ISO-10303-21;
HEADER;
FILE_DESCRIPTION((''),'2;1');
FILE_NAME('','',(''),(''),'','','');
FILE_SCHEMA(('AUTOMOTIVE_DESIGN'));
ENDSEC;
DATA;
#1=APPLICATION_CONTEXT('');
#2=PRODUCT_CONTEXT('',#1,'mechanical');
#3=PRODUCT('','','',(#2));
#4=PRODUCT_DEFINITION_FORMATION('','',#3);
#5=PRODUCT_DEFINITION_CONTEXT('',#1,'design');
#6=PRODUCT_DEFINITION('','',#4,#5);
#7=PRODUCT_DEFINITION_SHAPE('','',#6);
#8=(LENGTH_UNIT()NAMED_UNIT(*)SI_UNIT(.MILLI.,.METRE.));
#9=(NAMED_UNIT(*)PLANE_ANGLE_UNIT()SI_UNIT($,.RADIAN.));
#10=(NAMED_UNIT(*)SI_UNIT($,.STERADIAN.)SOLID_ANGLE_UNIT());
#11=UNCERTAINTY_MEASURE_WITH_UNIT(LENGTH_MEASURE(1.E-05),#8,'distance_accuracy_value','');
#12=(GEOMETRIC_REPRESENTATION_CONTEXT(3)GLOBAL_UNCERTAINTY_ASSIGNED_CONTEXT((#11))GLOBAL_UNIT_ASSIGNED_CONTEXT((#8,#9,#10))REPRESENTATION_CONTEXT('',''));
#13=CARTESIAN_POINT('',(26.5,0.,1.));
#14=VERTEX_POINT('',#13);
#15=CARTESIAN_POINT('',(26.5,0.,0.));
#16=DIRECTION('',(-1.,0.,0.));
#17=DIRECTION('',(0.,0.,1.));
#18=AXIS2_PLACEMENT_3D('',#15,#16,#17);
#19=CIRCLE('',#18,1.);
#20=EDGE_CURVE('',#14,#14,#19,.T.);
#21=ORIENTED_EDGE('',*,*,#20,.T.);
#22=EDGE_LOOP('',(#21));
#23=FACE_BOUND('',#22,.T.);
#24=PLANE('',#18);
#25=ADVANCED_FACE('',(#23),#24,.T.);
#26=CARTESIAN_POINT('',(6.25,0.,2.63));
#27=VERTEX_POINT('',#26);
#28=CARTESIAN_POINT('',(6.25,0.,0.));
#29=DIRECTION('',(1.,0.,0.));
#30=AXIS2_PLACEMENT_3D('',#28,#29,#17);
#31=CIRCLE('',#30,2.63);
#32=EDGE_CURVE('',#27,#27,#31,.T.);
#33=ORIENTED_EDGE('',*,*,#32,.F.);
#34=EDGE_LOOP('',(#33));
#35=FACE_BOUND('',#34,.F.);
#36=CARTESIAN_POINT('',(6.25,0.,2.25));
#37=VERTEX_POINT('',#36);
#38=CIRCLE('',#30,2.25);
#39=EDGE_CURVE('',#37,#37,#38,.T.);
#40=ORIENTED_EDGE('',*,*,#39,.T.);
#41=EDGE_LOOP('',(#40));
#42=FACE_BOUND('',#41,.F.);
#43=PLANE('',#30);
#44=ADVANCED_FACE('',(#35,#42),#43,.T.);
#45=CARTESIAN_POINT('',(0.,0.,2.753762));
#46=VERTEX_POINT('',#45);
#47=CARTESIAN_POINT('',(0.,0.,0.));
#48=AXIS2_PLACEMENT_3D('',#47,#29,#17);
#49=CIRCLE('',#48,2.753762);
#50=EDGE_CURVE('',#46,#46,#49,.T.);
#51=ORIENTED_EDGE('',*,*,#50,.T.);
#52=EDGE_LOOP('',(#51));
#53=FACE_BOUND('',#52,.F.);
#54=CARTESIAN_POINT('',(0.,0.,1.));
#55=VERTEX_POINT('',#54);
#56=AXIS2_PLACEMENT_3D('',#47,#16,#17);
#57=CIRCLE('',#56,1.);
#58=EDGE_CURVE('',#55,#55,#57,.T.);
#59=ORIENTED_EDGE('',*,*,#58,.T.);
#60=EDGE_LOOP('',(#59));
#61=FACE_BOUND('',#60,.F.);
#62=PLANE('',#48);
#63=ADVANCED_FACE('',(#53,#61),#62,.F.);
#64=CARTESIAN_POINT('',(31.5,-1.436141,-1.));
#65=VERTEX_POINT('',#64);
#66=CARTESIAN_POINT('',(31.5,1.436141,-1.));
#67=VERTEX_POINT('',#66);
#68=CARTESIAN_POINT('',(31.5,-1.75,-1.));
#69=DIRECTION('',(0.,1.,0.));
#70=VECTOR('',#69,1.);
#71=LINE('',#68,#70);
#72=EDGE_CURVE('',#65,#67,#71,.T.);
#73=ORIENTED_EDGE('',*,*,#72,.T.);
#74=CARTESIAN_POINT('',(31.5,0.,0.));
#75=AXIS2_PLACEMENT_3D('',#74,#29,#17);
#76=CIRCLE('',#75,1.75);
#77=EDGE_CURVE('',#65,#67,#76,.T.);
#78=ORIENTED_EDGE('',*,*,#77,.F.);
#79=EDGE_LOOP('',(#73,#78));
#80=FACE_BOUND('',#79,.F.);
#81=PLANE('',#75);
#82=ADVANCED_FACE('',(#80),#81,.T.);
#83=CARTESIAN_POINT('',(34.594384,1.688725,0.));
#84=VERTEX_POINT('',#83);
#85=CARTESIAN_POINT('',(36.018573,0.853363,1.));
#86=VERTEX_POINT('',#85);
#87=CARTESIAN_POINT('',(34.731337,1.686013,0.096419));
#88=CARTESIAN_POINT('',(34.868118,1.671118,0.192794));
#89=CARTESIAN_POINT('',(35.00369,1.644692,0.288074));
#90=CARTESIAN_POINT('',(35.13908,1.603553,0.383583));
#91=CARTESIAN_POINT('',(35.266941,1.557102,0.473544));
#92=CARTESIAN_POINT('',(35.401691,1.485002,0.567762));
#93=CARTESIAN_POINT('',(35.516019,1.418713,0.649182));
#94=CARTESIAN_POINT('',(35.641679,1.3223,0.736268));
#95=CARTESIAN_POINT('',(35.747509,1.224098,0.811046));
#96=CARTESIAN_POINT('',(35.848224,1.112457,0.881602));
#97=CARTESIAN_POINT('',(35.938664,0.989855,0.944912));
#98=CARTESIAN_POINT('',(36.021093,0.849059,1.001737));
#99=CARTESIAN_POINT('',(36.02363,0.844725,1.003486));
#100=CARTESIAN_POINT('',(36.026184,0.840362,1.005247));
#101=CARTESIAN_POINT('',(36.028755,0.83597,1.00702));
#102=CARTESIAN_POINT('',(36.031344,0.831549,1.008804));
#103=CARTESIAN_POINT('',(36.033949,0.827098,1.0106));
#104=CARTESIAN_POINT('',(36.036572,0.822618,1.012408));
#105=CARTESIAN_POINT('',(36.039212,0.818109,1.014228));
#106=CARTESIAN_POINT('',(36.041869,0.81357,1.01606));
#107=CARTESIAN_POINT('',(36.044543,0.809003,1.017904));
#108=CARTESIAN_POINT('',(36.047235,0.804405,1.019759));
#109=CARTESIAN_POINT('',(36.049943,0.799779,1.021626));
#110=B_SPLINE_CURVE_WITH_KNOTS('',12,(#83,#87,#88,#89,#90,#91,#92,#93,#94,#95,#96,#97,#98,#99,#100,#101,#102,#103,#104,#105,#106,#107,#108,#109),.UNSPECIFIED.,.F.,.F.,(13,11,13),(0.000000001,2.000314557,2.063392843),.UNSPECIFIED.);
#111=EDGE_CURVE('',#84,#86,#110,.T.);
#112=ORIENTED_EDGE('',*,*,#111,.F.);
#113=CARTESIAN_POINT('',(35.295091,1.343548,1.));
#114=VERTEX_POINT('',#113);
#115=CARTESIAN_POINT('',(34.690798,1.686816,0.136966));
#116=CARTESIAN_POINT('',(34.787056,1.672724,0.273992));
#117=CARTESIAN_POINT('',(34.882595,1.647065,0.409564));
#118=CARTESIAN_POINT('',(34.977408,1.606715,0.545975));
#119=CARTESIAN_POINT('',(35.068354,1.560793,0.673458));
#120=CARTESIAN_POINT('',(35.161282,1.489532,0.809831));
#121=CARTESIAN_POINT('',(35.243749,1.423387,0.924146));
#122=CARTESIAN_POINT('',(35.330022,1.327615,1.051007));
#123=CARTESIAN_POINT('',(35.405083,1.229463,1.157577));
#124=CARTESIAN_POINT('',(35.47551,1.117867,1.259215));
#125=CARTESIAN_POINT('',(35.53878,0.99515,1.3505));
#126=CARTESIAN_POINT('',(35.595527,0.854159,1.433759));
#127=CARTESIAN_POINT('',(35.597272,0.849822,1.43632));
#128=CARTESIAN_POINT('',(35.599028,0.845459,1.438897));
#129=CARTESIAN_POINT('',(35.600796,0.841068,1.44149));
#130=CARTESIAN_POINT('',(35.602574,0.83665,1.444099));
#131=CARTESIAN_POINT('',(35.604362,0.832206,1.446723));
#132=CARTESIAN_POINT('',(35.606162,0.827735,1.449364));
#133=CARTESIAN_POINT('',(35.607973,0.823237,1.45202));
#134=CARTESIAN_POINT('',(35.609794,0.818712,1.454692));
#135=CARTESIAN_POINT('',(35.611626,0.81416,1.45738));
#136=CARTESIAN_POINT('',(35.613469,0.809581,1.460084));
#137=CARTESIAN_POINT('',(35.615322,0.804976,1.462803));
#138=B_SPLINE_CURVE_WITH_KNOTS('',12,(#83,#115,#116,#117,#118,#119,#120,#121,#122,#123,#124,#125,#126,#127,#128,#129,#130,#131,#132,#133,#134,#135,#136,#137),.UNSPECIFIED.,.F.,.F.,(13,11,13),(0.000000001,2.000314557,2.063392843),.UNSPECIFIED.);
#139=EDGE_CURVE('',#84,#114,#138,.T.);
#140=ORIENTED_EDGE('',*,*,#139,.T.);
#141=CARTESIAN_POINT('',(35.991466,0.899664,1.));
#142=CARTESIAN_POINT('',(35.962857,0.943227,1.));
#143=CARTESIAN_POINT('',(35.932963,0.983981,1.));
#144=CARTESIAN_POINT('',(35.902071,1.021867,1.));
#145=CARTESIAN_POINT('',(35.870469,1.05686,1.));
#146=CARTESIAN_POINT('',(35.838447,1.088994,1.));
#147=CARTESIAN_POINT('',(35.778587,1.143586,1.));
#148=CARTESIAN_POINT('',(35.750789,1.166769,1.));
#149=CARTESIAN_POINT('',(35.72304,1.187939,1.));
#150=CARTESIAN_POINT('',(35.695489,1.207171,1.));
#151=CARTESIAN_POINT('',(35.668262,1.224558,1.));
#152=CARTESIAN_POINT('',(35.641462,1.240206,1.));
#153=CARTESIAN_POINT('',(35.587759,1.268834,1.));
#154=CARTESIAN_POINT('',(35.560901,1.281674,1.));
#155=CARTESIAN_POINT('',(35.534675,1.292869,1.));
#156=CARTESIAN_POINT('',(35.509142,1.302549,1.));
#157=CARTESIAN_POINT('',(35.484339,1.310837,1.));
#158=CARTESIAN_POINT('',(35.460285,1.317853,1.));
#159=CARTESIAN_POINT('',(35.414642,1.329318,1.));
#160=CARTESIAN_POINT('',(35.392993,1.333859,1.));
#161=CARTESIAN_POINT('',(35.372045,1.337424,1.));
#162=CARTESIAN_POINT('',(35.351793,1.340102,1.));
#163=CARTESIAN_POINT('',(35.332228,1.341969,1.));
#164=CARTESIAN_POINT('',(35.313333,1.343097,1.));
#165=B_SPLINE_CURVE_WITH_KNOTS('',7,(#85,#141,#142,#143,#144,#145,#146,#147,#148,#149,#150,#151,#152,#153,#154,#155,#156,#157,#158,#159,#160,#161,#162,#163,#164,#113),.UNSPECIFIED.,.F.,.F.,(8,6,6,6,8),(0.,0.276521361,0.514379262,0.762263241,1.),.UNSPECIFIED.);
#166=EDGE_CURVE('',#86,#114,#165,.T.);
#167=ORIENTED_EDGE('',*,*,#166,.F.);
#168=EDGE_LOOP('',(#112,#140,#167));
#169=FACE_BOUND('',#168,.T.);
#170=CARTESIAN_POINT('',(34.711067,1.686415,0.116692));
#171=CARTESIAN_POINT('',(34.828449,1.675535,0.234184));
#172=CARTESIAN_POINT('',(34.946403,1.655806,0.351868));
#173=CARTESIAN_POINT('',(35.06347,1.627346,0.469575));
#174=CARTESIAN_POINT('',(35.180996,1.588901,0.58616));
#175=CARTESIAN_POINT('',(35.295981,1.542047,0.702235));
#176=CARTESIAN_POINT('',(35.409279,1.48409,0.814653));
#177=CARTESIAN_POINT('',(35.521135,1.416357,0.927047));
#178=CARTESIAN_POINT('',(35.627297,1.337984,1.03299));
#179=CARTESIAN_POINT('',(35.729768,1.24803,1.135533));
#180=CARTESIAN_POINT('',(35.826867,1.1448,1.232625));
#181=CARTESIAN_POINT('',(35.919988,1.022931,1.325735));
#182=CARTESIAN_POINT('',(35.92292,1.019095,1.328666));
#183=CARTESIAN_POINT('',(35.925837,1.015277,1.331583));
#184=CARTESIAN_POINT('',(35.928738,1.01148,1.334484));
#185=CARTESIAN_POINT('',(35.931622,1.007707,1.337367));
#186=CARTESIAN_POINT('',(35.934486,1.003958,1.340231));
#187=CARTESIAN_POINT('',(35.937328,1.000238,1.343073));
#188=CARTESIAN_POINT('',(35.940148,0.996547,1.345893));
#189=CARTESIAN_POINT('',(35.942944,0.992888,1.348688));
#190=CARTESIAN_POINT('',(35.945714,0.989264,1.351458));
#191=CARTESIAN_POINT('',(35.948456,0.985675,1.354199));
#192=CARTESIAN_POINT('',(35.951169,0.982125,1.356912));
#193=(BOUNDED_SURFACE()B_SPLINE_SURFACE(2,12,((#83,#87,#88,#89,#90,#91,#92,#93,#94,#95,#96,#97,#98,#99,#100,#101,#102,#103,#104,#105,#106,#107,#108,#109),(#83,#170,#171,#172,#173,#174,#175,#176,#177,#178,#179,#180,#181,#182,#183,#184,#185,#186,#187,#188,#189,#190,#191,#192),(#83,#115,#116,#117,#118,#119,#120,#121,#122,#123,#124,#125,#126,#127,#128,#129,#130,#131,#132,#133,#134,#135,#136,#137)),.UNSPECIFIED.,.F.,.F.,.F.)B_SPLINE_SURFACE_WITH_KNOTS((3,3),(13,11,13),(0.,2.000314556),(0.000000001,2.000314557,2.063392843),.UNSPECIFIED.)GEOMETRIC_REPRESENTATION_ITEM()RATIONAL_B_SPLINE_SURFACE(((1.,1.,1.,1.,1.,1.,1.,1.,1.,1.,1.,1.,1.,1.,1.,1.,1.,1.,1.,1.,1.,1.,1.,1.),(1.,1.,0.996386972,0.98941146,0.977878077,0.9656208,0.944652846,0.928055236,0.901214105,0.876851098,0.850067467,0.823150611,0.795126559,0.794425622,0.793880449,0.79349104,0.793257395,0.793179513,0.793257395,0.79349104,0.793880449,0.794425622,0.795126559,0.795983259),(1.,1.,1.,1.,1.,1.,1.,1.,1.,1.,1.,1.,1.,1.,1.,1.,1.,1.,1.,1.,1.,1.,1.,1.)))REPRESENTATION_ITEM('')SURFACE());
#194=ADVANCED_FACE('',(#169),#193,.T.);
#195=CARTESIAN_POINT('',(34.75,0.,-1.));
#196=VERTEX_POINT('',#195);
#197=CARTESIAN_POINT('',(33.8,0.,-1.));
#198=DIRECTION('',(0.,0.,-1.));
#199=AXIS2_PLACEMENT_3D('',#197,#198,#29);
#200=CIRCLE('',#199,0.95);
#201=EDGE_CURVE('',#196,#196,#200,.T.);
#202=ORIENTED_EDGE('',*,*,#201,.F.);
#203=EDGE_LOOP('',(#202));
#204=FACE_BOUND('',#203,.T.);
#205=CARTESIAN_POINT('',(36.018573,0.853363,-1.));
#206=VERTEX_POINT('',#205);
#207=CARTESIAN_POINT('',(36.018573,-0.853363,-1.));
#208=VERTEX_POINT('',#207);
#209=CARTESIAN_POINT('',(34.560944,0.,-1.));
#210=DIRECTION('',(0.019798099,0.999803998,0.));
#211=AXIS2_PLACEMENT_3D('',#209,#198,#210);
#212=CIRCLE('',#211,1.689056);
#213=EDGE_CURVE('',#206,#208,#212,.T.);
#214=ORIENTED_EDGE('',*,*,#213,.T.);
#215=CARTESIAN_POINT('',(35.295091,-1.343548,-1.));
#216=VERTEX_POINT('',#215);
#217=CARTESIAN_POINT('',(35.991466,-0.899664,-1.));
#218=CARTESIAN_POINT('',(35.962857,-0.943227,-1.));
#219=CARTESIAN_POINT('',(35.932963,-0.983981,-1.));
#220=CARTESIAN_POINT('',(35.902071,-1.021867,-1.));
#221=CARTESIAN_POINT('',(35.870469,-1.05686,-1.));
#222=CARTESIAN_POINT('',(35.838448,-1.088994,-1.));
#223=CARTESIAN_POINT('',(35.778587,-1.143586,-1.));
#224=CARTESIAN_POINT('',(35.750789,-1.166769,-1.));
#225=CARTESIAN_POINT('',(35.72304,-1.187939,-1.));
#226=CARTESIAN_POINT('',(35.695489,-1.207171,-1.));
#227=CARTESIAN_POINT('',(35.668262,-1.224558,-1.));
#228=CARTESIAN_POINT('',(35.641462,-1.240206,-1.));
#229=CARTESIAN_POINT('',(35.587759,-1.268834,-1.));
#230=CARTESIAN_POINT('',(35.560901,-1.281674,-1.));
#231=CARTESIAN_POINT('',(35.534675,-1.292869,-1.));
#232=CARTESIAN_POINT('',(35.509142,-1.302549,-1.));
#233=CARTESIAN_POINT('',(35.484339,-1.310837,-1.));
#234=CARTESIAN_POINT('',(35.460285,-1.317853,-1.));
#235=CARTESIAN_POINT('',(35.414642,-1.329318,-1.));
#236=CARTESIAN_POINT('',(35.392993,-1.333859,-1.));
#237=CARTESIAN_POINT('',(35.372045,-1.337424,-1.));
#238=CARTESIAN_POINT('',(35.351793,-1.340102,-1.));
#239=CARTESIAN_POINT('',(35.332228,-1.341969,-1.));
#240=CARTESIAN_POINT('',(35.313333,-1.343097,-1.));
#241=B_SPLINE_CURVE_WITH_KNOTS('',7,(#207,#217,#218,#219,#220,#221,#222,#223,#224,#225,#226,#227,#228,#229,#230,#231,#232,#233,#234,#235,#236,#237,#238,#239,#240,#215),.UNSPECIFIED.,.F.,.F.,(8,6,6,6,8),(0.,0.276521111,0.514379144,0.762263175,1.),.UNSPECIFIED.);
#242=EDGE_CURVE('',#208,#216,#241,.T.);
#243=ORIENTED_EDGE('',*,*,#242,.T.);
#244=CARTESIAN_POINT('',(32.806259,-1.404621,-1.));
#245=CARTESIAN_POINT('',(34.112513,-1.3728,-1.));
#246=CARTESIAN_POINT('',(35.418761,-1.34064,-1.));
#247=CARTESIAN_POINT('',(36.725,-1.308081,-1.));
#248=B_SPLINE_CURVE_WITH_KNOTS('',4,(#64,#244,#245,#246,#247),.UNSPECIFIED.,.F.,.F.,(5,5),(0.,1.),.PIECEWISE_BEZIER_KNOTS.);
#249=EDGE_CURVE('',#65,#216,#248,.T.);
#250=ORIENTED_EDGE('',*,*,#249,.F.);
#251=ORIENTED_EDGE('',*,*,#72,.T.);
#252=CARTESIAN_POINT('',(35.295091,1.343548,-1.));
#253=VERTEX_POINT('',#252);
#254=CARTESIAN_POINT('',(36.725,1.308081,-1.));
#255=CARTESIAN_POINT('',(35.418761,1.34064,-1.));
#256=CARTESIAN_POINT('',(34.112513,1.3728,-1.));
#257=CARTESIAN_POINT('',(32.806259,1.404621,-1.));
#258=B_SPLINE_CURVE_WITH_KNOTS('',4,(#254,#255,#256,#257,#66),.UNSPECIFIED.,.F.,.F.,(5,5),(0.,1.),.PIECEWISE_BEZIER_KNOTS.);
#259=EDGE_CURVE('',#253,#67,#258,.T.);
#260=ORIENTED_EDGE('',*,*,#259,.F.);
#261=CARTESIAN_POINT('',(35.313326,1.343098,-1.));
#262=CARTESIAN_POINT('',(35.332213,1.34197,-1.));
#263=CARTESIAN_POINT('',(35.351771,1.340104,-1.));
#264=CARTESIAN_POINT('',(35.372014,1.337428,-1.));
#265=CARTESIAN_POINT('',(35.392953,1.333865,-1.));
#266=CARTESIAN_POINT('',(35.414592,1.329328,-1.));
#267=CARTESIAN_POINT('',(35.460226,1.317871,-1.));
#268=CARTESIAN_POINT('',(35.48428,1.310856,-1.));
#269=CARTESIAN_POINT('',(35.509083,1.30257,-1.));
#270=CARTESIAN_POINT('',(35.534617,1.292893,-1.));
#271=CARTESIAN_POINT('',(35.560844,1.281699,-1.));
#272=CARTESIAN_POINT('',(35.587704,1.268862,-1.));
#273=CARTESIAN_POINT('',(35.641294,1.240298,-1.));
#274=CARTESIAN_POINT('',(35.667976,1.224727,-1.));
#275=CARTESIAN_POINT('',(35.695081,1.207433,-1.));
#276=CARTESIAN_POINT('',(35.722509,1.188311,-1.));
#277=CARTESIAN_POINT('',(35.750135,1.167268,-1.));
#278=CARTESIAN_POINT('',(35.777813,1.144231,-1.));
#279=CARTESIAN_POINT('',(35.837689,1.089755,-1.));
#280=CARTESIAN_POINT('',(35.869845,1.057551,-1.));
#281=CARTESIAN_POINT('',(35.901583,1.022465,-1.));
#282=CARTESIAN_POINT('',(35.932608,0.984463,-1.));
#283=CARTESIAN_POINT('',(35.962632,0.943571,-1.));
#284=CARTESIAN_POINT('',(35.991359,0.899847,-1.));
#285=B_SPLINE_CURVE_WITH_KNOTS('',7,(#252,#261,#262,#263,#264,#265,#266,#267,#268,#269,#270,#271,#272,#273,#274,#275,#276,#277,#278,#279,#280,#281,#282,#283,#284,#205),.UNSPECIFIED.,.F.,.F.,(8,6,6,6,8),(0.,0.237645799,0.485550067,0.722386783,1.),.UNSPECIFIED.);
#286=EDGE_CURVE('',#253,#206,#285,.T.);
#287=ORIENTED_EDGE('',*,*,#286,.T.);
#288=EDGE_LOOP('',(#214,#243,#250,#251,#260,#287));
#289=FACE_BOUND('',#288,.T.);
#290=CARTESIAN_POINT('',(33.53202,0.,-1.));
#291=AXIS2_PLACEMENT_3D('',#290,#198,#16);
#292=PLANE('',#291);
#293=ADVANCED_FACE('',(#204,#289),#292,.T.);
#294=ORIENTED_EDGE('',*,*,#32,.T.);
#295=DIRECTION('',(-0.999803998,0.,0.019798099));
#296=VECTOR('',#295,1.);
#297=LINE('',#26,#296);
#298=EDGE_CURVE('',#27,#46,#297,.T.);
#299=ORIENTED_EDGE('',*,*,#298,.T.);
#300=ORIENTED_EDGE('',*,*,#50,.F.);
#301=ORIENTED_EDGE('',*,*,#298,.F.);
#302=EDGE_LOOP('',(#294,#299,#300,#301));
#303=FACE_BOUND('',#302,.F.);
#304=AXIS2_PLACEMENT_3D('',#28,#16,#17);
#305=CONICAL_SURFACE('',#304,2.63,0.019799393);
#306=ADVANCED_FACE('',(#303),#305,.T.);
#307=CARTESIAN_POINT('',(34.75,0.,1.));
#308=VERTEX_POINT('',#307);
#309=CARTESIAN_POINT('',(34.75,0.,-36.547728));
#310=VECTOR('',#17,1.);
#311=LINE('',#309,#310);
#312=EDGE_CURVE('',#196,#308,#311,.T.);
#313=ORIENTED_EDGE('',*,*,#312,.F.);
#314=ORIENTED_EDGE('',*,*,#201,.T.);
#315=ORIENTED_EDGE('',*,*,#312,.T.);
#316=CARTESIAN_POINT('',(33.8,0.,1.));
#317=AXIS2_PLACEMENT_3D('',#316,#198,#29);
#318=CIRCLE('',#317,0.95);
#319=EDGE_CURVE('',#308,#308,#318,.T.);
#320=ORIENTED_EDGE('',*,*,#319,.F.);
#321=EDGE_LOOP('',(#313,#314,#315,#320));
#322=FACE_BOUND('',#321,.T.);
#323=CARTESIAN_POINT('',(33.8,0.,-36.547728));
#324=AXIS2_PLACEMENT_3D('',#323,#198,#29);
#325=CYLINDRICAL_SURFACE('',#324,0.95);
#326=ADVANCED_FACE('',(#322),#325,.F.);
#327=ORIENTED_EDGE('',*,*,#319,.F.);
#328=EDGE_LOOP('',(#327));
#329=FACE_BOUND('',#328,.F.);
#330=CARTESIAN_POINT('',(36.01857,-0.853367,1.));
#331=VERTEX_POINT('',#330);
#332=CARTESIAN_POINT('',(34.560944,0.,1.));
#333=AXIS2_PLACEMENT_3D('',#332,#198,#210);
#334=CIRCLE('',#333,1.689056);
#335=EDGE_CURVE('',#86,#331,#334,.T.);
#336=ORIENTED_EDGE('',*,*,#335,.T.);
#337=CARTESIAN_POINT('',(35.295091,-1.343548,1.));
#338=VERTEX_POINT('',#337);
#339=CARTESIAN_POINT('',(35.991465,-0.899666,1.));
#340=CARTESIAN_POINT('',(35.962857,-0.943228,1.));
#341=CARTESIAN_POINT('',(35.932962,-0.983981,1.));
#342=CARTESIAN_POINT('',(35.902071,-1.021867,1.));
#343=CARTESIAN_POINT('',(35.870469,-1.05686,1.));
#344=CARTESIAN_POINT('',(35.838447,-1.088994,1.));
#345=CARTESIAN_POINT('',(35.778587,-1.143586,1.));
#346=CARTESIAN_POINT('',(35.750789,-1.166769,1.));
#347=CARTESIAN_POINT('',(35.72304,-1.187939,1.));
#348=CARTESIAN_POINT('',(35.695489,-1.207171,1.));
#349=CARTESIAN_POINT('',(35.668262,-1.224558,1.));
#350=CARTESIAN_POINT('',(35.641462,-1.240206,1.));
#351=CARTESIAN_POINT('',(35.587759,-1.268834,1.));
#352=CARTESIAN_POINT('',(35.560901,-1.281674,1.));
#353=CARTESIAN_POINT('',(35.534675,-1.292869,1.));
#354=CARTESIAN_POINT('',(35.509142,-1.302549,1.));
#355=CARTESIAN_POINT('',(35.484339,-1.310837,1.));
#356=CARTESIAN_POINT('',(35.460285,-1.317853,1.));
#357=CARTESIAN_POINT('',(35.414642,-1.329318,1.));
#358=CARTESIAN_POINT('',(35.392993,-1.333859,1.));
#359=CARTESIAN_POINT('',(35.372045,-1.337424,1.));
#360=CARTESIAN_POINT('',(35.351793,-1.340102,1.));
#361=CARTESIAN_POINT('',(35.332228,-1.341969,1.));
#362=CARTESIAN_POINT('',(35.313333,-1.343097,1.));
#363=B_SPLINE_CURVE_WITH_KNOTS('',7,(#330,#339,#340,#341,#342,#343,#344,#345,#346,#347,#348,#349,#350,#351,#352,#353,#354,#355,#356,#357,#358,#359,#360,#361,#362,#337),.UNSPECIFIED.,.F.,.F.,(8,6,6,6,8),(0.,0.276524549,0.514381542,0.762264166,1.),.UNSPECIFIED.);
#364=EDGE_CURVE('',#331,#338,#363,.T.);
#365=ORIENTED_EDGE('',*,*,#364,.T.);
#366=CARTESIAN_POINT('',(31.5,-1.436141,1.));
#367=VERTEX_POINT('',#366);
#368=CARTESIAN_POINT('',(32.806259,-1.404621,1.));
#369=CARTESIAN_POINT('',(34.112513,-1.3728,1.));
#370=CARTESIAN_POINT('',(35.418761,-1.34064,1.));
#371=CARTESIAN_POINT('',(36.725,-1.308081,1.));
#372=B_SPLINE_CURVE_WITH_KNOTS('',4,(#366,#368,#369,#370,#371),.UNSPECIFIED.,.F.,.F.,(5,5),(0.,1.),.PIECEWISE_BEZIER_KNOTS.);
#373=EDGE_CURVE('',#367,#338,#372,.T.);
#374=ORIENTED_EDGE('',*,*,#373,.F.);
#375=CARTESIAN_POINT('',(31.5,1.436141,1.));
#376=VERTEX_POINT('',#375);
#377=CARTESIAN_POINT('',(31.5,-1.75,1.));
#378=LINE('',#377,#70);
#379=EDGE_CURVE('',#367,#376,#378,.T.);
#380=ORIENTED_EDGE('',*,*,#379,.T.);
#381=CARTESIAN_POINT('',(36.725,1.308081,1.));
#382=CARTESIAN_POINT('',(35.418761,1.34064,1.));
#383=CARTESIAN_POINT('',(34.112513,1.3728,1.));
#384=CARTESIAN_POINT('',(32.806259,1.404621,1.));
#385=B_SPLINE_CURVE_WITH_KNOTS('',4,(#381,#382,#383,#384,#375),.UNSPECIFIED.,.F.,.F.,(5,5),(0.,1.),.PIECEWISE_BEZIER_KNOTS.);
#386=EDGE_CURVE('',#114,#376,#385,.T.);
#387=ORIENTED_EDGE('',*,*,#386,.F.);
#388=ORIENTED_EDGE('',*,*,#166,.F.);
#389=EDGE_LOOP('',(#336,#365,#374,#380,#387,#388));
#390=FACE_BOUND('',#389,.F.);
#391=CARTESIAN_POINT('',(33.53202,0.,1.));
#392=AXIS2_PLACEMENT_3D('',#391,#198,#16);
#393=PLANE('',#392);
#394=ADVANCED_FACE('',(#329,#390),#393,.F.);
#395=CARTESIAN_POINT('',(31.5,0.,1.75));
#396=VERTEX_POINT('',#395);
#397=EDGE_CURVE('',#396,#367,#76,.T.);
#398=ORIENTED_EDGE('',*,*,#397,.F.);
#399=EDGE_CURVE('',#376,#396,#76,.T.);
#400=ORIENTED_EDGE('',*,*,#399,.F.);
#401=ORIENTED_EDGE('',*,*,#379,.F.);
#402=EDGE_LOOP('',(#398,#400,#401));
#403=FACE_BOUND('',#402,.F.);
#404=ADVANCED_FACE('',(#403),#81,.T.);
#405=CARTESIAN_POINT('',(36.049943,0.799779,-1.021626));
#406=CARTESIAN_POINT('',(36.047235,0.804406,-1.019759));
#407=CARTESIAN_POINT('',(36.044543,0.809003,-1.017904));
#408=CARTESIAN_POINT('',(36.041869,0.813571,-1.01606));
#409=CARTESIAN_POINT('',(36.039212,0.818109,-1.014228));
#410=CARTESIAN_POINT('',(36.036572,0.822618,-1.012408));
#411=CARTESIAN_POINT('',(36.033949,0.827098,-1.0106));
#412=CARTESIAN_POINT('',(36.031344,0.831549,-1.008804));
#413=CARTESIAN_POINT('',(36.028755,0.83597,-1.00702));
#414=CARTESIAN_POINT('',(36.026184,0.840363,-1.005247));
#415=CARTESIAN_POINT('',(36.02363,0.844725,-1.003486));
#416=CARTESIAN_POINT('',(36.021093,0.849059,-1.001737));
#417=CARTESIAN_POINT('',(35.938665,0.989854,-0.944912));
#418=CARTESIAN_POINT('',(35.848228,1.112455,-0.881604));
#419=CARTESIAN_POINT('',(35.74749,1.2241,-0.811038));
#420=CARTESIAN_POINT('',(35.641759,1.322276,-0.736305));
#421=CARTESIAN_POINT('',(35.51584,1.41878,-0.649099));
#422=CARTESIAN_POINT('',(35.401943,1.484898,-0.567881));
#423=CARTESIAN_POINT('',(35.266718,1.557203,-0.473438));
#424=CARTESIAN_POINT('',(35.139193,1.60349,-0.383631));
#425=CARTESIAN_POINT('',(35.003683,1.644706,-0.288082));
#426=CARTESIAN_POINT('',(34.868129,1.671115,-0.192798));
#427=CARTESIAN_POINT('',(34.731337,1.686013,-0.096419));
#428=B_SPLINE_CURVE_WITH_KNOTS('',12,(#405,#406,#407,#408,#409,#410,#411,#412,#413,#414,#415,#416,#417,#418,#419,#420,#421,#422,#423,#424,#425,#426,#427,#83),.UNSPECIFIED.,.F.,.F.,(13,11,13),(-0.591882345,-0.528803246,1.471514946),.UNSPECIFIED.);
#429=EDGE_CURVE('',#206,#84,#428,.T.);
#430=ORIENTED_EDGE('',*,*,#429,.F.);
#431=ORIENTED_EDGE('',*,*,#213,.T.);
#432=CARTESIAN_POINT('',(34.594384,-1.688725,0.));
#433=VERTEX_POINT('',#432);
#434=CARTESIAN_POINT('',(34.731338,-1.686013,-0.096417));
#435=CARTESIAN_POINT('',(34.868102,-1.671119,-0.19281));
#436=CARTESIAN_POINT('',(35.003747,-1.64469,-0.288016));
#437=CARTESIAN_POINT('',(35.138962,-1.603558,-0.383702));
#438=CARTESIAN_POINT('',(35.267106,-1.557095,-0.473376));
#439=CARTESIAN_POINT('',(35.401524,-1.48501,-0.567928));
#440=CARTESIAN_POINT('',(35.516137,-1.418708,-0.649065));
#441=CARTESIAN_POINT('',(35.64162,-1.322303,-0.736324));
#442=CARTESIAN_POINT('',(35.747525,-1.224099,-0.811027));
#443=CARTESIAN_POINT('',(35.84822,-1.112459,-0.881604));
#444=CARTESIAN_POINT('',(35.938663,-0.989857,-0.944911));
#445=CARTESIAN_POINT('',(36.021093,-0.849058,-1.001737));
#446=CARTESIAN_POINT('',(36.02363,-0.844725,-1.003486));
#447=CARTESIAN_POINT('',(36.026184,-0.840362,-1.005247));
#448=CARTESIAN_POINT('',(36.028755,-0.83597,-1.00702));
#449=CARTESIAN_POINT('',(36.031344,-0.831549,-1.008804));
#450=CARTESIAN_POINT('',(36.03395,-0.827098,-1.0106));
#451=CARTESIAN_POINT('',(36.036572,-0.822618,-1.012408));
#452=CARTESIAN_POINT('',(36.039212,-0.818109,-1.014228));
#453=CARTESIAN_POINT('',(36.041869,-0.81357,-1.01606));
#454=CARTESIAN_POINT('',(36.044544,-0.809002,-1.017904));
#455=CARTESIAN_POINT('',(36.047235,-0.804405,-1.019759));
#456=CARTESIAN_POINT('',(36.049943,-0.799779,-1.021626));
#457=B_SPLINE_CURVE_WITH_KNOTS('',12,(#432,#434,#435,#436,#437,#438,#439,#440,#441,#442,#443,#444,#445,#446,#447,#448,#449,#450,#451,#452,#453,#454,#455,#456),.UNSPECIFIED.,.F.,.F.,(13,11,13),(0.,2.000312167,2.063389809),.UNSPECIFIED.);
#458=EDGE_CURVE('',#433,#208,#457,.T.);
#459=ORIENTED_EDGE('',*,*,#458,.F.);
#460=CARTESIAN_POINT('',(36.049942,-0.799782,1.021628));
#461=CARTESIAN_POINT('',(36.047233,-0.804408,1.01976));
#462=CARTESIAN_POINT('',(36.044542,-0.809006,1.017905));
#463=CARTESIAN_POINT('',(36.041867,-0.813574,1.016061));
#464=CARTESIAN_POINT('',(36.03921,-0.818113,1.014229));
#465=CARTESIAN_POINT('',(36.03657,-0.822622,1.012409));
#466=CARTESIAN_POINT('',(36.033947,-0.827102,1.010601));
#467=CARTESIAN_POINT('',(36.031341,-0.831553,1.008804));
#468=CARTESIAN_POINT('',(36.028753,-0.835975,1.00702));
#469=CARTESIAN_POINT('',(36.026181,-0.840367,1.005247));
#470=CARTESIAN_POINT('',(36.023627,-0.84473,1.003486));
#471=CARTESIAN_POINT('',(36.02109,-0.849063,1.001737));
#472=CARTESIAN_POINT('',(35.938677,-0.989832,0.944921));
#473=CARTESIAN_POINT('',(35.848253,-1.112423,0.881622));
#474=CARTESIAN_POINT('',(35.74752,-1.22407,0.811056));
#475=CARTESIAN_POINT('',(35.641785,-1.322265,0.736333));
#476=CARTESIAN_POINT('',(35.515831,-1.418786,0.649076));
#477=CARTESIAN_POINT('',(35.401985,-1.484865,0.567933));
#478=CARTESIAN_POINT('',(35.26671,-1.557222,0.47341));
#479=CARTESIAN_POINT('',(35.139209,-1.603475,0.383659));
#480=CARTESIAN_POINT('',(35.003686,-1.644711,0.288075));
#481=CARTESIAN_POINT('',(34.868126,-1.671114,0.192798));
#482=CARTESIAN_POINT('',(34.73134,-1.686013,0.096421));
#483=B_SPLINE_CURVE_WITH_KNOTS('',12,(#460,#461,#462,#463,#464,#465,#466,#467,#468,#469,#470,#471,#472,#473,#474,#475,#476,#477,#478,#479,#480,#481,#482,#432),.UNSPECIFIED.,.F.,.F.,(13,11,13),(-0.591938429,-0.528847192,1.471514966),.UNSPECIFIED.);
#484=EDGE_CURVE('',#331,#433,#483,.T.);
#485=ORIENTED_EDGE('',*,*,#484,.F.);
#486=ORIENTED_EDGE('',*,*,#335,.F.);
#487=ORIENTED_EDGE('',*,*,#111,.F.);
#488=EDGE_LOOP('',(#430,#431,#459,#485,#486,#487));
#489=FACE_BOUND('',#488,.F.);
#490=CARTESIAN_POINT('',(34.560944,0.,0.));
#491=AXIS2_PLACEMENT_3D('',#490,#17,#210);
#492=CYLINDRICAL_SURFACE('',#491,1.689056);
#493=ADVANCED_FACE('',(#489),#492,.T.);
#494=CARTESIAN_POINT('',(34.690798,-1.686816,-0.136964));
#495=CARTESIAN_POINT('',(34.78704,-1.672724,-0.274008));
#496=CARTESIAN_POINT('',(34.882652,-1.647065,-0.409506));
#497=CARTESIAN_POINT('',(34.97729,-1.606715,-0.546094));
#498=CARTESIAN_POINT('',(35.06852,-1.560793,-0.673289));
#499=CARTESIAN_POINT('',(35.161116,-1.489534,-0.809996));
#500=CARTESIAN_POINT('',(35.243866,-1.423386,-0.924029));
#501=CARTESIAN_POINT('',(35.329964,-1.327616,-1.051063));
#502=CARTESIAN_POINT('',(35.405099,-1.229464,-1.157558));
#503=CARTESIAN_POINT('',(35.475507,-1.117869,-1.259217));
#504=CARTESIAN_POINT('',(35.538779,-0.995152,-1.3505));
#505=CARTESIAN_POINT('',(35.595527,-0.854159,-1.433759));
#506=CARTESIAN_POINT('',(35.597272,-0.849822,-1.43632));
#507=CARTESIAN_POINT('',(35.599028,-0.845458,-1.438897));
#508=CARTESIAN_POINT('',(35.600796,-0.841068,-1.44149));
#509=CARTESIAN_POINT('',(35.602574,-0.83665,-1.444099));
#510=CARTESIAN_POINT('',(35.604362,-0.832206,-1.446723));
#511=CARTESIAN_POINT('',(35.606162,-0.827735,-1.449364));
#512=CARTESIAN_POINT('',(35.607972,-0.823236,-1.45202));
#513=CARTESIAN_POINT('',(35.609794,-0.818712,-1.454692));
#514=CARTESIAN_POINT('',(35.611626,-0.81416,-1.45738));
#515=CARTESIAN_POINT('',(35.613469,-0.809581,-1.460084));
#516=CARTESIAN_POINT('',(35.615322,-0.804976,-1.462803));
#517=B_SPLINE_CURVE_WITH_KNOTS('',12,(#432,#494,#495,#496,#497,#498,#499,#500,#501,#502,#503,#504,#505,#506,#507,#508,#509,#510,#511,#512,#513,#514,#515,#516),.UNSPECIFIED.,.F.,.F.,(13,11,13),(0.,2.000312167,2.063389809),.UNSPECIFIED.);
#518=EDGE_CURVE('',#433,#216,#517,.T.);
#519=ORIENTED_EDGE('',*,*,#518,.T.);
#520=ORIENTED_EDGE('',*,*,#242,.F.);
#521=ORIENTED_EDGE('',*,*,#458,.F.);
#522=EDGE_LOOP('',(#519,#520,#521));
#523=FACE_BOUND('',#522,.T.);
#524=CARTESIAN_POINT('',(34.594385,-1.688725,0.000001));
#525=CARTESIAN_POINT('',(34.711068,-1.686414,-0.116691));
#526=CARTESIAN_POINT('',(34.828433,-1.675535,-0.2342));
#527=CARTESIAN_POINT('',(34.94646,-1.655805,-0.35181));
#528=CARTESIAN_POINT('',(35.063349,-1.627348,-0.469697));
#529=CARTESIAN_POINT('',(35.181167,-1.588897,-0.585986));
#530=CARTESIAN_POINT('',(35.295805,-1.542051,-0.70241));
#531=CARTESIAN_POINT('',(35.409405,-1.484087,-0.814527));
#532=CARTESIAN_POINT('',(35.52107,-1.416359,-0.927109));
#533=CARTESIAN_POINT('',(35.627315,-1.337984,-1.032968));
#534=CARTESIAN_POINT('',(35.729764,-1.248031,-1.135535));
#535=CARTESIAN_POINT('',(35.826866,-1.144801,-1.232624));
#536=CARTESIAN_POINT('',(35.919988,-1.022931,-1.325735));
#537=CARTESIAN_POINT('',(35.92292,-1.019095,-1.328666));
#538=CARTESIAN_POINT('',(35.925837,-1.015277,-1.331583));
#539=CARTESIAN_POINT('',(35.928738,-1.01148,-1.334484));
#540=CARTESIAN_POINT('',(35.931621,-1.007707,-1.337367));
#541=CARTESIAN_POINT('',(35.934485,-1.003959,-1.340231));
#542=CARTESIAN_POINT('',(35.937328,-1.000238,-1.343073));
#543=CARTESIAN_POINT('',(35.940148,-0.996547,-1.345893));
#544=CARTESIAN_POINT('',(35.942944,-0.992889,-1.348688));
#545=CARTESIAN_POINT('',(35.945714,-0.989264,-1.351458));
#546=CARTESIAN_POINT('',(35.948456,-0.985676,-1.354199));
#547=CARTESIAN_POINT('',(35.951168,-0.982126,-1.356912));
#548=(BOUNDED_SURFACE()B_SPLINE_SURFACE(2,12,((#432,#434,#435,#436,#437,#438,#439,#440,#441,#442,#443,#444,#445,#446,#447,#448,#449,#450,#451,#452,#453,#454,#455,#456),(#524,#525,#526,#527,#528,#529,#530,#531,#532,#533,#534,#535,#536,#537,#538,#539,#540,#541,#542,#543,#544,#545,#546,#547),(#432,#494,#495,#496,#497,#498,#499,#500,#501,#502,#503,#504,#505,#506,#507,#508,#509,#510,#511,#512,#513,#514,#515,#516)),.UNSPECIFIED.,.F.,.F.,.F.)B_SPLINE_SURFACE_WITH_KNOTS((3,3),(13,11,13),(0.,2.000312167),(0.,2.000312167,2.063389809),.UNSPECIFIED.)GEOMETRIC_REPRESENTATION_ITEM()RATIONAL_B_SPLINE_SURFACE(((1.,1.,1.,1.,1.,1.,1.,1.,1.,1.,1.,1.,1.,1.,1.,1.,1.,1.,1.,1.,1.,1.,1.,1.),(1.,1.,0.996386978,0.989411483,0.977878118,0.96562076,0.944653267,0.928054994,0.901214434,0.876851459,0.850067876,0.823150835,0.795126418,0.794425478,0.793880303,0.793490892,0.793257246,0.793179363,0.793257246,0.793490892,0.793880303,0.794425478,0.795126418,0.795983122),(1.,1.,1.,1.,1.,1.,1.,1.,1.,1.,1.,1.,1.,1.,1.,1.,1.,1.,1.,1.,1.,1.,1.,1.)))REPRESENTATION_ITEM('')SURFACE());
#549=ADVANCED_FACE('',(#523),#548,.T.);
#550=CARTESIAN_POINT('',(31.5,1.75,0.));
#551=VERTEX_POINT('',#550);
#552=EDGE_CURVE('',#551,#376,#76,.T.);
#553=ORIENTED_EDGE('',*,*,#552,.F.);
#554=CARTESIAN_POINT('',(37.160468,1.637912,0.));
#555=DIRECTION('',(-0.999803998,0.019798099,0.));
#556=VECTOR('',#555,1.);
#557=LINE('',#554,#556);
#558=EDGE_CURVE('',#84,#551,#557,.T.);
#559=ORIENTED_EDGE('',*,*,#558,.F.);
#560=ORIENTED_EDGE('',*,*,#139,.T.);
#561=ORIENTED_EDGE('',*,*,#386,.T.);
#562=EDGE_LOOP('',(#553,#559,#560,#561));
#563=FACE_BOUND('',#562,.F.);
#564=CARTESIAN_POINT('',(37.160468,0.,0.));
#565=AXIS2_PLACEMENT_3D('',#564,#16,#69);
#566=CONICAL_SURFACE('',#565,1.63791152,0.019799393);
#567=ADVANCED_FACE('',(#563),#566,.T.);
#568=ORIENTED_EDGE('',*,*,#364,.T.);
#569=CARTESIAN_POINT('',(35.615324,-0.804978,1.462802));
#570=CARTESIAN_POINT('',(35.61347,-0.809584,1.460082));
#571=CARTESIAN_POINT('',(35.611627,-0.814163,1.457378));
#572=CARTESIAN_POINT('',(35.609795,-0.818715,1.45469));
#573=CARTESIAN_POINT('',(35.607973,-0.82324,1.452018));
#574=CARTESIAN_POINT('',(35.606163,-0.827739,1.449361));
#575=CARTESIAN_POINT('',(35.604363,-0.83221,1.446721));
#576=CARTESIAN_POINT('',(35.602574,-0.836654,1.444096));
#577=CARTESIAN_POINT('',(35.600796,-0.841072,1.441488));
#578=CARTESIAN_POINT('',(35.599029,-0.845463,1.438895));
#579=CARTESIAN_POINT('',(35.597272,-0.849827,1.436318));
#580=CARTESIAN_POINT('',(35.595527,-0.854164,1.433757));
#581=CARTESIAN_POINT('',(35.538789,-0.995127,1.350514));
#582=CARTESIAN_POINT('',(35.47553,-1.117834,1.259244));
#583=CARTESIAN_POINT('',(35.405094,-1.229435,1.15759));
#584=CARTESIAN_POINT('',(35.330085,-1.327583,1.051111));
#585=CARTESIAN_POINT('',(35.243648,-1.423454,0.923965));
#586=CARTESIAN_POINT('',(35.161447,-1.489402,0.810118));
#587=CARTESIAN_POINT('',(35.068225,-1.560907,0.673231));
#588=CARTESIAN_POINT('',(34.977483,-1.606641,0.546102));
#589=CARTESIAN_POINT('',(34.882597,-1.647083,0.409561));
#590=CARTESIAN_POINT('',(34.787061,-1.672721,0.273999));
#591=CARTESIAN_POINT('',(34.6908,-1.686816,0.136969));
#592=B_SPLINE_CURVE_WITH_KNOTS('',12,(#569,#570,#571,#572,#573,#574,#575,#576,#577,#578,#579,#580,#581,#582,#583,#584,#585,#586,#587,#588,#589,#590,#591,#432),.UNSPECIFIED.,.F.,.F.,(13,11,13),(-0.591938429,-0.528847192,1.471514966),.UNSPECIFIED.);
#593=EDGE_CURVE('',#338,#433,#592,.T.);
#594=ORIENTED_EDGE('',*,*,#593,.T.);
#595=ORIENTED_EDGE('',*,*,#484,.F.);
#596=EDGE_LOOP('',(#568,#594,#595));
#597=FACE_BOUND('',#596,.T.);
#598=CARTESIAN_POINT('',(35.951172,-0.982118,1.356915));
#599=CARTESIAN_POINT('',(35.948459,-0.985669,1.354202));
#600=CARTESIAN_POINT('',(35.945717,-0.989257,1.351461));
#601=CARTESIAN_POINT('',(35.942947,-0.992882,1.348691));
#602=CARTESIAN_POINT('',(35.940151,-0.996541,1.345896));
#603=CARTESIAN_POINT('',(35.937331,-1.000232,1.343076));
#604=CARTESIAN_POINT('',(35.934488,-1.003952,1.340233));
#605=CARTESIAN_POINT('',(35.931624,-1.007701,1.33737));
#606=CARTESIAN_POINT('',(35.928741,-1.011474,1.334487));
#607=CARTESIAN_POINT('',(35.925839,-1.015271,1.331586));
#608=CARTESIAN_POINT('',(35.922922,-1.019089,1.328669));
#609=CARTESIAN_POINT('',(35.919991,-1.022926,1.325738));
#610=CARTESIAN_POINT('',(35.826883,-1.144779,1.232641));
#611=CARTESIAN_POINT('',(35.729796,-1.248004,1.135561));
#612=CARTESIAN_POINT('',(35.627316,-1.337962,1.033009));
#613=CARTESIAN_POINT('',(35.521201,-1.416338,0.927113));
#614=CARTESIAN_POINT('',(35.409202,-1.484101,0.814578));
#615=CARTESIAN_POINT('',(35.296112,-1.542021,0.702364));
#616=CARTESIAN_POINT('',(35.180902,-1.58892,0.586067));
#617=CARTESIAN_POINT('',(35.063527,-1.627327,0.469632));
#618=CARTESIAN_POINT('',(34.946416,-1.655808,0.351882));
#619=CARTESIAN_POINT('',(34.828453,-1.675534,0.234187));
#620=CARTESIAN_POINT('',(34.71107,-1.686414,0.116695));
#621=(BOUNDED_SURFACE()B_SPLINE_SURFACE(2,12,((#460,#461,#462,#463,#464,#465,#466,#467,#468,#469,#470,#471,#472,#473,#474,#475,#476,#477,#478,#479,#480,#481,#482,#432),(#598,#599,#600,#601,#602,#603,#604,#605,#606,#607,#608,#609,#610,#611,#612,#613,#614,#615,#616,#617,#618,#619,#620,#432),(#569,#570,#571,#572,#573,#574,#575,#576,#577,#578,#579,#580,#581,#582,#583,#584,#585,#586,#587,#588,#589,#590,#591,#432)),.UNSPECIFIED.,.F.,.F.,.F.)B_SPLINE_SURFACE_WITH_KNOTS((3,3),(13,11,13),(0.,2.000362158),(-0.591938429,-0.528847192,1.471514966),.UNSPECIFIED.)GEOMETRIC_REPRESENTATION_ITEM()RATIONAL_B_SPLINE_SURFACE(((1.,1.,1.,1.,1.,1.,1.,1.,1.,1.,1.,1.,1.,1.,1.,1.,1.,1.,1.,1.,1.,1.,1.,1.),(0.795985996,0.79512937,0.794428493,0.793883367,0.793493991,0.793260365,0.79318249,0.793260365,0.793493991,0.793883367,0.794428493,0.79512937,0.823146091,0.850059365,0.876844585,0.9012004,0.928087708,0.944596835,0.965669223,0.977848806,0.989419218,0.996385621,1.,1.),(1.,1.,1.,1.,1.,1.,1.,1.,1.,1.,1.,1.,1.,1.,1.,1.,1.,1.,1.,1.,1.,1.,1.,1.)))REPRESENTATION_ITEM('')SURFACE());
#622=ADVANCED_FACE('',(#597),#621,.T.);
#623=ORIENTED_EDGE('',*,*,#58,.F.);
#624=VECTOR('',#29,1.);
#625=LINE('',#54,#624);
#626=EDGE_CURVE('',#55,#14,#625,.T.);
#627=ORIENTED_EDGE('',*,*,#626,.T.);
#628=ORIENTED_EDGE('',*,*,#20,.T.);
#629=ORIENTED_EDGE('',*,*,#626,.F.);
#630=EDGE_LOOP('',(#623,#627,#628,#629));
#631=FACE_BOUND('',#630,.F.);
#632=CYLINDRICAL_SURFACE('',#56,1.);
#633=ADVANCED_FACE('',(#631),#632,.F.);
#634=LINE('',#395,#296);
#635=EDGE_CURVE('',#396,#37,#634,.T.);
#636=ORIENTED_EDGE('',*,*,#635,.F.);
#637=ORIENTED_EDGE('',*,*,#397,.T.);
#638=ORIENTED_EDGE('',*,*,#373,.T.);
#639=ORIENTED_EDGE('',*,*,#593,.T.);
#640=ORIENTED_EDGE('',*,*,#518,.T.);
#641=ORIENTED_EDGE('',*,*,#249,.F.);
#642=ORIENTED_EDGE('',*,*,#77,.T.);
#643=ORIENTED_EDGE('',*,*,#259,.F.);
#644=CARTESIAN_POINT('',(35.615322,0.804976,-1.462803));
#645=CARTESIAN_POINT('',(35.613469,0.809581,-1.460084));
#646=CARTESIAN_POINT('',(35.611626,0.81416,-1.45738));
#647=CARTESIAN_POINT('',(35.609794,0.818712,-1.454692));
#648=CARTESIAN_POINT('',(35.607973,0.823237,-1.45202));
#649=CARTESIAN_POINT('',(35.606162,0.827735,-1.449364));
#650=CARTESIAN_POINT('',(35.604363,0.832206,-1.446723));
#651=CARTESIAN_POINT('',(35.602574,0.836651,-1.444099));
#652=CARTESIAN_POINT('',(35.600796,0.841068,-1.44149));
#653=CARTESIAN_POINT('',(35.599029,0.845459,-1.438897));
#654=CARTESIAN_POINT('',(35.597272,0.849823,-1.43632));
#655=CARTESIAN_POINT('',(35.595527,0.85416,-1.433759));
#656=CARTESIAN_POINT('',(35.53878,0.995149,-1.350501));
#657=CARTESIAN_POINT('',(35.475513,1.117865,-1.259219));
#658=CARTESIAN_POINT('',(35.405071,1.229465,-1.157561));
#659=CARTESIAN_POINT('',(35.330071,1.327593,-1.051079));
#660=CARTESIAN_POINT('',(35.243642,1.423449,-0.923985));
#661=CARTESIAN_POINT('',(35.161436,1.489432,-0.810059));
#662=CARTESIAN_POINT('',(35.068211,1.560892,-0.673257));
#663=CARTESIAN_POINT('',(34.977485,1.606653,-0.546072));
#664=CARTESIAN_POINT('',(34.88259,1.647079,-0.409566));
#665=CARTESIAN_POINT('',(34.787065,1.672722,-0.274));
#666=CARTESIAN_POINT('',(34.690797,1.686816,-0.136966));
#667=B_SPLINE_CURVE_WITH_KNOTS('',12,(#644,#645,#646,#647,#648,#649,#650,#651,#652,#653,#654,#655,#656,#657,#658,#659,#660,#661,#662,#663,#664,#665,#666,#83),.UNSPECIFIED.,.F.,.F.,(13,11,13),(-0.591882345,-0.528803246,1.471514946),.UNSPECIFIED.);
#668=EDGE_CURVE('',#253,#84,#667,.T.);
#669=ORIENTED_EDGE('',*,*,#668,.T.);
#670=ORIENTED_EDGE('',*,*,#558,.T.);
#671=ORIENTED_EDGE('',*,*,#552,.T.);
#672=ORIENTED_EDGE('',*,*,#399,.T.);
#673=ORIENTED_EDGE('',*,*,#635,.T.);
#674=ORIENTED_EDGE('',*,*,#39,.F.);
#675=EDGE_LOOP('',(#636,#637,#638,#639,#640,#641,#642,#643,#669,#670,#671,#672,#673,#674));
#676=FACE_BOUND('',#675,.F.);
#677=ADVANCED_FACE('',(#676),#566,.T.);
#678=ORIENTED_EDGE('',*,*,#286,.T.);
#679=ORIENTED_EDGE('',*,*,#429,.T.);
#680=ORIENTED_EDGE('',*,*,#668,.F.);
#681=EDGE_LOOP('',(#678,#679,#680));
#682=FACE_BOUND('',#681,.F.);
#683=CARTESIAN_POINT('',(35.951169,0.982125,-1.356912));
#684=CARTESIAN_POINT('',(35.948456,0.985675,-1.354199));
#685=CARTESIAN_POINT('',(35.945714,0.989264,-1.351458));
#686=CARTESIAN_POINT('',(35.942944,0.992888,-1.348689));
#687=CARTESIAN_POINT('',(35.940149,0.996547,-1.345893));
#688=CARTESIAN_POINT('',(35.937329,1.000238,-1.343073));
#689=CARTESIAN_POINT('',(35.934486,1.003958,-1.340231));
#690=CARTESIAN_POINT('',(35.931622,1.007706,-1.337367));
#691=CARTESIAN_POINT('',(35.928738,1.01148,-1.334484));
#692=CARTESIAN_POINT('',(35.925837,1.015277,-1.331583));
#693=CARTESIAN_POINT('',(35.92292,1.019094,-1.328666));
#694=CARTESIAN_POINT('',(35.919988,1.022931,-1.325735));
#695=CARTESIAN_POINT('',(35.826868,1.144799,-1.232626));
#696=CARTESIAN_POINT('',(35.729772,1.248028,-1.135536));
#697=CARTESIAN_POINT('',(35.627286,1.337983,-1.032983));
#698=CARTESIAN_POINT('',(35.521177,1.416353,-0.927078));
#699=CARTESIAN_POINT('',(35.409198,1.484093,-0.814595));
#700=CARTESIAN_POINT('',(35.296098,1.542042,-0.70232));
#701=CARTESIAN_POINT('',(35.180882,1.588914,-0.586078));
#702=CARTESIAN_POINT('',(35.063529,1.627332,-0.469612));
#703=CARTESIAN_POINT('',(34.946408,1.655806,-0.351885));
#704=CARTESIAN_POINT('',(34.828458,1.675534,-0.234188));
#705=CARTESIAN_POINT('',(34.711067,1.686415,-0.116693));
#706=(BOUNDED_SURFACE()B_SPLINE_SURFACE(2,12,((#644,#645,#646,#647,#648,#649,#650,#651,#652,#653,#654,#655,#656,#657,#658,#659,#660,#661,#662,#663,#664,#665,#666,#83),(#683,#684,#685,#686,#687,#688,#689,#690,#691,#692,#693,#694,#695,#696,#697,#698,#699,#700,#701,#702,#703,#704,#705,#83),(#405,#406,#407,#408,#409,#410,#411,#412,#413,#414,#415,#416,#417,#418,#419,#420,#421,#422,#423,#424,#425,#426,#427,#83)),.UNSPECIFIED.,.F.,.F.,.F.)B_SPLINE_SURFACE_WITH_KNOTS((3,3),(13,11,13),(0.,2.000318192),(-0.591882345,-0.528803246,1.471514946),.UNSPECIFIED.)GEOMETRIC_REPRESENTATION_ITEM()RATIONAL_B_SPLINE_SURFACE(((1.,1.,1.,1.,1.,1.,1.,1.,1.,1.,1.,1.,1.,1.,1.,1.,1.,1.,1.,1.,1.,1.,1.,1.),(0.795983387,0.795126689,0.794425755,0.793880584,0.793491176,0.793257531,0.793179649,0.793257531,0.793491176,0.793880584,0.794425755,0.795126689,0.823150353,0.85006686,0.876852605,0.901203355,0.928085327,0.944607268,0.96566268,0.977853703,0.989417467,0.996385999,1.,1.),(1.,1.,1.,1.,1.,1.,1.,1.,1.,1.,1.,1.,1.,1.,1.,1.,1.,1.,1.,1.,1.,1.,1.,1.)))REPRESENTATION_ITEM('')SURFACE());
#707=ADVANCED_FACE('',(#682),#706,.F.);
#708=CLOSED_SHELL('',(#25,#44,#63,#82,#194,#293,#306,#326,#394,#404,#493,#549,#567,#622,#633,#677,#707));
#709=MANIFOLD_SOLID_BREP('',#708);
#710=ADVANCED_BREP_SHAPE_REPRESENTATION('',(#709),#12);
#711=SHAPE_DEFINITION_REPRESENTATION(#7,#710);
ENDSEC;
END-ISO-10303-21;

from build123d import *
from build123d.topology import SkipClean

# Parameters (mm, degrees)
BOSS_EXTRUDE1_DEPTH     = 1
CUT_EXTRUDE1_DEPTH      = 37.54772833504248
CUT_EXTRUDE1_DEPTH_BACK = 37.54772833504248
SKETCH4_R               = 0.9500000000000008
FILLET1_R               = 0.5
SKETCH5_R               = 1
CUT_EXTRUDE2_DEPTH      = 26.5


with BuildPart() as part:
    # Sketch1 → Revolve1 (revolve)
    with BuildSketch(Plane.XY, mode=Mode.PRIVATE) as revolve1_sk:
        Polygon((0, 0), (31.5, 0), (31.5, 1.7500000000000002), (6.25, 2.25), (6.25, 2.63), (-8.6e-16, 2.753762376237624), align=None)
    revolve(revolve1_sk.sketch.rotate(Axis((0, 0, 0), (1, 0, 0)), 90), axis=Axis((0, 0, 0), (1, 0, 0)))

    # Sketch2 → Boss-Extrude1 (add, symmetric)
    with BuildSketch(Plane.XY):
        with BuildLine():
            Line((31.5, 1.7500000000000002), (34.59438397289708, 1.6887250698436231))
            ThreePointArc((34.59438397289708, 1.6887250698436231), (36.250000000000384, 0), (34.59438397289708, -1.6887250698436231))
            Line((34.59438397289708, -1.6887250698436231), (31.5, -1.7500000000000002))
            Line((31.5, -1.7500000000000002), (31.5, 1.7500000000000002))
        make_face()
    extrude(amount=BOSS_EXTRUDE1_DEPTH, both=True)

    # Sketch3 → Cut-Revolve1 (revolve, cut)
    with SkipClean():  # the faces are left unmerged after this step: merging them gives an invalid solid
        with BuildSketch(Plane.XY):
            Polygon((31.5, 1.7500000000000002), (31.5, 3.02899348193033), (37.16046821617775, 3.02899348193033), (37.16046821617775, 1.6379115204717292), align=None)
        revolve(axis=Axis((31.5, 0, 0), (1, 0, 0)), mode=Mode.SUBTRACT)

    # Sketch4 → Cut-Extrude1 (cut, two sides: drawn at the far end of the back side and taken through both)
    with SkipClean():  # the faces are left unmerged after this step: merging them gives an invalid solid
        with BuildSketch(Plane.XY.offset(1).offset(-CUT_EXTRUDE1_DEPTH_BACK)):
            with Locations((33.800000000000416, 0)):
                Circle(SKETCH4_R)
        extrude(amount=CUT_EXTRUDE1_DEPTH + CUT_EXTRUDE1_DEPTH_BACK, mode=Mode.SUBTRACT)

    # Fillet1
    fillet1_edges = [part.edges().sort_by_distance(p)[0] for p in [
        (35.10948652987232, 1.5975016585971056, -0.5152035376774515),
        (35.109486521686094, -1.5975016606575614, -0.5152035294896175),
        (35.109486530948786, 1.5975016579572403, 0.5152035387541277),
        (35.10948652164611, -1.5975016610354238, 0.5152035294496282),
    ]]
    fillet(fillet1_edges, radius=FILLET1_R)

    # Sketch5 → Cut-Extrude2 (cut)
    with SkipClean():  # the faces are left unmerged after this step: merging them gives an invalid solid
        with BuildSketch(Plane.ZY):
            Circle(SKETCH5_R)
        extrude(amount=-CUT_EXTRUDE2_DEPTH, mode=Mode.SUBTRACT)


solid = part.part
